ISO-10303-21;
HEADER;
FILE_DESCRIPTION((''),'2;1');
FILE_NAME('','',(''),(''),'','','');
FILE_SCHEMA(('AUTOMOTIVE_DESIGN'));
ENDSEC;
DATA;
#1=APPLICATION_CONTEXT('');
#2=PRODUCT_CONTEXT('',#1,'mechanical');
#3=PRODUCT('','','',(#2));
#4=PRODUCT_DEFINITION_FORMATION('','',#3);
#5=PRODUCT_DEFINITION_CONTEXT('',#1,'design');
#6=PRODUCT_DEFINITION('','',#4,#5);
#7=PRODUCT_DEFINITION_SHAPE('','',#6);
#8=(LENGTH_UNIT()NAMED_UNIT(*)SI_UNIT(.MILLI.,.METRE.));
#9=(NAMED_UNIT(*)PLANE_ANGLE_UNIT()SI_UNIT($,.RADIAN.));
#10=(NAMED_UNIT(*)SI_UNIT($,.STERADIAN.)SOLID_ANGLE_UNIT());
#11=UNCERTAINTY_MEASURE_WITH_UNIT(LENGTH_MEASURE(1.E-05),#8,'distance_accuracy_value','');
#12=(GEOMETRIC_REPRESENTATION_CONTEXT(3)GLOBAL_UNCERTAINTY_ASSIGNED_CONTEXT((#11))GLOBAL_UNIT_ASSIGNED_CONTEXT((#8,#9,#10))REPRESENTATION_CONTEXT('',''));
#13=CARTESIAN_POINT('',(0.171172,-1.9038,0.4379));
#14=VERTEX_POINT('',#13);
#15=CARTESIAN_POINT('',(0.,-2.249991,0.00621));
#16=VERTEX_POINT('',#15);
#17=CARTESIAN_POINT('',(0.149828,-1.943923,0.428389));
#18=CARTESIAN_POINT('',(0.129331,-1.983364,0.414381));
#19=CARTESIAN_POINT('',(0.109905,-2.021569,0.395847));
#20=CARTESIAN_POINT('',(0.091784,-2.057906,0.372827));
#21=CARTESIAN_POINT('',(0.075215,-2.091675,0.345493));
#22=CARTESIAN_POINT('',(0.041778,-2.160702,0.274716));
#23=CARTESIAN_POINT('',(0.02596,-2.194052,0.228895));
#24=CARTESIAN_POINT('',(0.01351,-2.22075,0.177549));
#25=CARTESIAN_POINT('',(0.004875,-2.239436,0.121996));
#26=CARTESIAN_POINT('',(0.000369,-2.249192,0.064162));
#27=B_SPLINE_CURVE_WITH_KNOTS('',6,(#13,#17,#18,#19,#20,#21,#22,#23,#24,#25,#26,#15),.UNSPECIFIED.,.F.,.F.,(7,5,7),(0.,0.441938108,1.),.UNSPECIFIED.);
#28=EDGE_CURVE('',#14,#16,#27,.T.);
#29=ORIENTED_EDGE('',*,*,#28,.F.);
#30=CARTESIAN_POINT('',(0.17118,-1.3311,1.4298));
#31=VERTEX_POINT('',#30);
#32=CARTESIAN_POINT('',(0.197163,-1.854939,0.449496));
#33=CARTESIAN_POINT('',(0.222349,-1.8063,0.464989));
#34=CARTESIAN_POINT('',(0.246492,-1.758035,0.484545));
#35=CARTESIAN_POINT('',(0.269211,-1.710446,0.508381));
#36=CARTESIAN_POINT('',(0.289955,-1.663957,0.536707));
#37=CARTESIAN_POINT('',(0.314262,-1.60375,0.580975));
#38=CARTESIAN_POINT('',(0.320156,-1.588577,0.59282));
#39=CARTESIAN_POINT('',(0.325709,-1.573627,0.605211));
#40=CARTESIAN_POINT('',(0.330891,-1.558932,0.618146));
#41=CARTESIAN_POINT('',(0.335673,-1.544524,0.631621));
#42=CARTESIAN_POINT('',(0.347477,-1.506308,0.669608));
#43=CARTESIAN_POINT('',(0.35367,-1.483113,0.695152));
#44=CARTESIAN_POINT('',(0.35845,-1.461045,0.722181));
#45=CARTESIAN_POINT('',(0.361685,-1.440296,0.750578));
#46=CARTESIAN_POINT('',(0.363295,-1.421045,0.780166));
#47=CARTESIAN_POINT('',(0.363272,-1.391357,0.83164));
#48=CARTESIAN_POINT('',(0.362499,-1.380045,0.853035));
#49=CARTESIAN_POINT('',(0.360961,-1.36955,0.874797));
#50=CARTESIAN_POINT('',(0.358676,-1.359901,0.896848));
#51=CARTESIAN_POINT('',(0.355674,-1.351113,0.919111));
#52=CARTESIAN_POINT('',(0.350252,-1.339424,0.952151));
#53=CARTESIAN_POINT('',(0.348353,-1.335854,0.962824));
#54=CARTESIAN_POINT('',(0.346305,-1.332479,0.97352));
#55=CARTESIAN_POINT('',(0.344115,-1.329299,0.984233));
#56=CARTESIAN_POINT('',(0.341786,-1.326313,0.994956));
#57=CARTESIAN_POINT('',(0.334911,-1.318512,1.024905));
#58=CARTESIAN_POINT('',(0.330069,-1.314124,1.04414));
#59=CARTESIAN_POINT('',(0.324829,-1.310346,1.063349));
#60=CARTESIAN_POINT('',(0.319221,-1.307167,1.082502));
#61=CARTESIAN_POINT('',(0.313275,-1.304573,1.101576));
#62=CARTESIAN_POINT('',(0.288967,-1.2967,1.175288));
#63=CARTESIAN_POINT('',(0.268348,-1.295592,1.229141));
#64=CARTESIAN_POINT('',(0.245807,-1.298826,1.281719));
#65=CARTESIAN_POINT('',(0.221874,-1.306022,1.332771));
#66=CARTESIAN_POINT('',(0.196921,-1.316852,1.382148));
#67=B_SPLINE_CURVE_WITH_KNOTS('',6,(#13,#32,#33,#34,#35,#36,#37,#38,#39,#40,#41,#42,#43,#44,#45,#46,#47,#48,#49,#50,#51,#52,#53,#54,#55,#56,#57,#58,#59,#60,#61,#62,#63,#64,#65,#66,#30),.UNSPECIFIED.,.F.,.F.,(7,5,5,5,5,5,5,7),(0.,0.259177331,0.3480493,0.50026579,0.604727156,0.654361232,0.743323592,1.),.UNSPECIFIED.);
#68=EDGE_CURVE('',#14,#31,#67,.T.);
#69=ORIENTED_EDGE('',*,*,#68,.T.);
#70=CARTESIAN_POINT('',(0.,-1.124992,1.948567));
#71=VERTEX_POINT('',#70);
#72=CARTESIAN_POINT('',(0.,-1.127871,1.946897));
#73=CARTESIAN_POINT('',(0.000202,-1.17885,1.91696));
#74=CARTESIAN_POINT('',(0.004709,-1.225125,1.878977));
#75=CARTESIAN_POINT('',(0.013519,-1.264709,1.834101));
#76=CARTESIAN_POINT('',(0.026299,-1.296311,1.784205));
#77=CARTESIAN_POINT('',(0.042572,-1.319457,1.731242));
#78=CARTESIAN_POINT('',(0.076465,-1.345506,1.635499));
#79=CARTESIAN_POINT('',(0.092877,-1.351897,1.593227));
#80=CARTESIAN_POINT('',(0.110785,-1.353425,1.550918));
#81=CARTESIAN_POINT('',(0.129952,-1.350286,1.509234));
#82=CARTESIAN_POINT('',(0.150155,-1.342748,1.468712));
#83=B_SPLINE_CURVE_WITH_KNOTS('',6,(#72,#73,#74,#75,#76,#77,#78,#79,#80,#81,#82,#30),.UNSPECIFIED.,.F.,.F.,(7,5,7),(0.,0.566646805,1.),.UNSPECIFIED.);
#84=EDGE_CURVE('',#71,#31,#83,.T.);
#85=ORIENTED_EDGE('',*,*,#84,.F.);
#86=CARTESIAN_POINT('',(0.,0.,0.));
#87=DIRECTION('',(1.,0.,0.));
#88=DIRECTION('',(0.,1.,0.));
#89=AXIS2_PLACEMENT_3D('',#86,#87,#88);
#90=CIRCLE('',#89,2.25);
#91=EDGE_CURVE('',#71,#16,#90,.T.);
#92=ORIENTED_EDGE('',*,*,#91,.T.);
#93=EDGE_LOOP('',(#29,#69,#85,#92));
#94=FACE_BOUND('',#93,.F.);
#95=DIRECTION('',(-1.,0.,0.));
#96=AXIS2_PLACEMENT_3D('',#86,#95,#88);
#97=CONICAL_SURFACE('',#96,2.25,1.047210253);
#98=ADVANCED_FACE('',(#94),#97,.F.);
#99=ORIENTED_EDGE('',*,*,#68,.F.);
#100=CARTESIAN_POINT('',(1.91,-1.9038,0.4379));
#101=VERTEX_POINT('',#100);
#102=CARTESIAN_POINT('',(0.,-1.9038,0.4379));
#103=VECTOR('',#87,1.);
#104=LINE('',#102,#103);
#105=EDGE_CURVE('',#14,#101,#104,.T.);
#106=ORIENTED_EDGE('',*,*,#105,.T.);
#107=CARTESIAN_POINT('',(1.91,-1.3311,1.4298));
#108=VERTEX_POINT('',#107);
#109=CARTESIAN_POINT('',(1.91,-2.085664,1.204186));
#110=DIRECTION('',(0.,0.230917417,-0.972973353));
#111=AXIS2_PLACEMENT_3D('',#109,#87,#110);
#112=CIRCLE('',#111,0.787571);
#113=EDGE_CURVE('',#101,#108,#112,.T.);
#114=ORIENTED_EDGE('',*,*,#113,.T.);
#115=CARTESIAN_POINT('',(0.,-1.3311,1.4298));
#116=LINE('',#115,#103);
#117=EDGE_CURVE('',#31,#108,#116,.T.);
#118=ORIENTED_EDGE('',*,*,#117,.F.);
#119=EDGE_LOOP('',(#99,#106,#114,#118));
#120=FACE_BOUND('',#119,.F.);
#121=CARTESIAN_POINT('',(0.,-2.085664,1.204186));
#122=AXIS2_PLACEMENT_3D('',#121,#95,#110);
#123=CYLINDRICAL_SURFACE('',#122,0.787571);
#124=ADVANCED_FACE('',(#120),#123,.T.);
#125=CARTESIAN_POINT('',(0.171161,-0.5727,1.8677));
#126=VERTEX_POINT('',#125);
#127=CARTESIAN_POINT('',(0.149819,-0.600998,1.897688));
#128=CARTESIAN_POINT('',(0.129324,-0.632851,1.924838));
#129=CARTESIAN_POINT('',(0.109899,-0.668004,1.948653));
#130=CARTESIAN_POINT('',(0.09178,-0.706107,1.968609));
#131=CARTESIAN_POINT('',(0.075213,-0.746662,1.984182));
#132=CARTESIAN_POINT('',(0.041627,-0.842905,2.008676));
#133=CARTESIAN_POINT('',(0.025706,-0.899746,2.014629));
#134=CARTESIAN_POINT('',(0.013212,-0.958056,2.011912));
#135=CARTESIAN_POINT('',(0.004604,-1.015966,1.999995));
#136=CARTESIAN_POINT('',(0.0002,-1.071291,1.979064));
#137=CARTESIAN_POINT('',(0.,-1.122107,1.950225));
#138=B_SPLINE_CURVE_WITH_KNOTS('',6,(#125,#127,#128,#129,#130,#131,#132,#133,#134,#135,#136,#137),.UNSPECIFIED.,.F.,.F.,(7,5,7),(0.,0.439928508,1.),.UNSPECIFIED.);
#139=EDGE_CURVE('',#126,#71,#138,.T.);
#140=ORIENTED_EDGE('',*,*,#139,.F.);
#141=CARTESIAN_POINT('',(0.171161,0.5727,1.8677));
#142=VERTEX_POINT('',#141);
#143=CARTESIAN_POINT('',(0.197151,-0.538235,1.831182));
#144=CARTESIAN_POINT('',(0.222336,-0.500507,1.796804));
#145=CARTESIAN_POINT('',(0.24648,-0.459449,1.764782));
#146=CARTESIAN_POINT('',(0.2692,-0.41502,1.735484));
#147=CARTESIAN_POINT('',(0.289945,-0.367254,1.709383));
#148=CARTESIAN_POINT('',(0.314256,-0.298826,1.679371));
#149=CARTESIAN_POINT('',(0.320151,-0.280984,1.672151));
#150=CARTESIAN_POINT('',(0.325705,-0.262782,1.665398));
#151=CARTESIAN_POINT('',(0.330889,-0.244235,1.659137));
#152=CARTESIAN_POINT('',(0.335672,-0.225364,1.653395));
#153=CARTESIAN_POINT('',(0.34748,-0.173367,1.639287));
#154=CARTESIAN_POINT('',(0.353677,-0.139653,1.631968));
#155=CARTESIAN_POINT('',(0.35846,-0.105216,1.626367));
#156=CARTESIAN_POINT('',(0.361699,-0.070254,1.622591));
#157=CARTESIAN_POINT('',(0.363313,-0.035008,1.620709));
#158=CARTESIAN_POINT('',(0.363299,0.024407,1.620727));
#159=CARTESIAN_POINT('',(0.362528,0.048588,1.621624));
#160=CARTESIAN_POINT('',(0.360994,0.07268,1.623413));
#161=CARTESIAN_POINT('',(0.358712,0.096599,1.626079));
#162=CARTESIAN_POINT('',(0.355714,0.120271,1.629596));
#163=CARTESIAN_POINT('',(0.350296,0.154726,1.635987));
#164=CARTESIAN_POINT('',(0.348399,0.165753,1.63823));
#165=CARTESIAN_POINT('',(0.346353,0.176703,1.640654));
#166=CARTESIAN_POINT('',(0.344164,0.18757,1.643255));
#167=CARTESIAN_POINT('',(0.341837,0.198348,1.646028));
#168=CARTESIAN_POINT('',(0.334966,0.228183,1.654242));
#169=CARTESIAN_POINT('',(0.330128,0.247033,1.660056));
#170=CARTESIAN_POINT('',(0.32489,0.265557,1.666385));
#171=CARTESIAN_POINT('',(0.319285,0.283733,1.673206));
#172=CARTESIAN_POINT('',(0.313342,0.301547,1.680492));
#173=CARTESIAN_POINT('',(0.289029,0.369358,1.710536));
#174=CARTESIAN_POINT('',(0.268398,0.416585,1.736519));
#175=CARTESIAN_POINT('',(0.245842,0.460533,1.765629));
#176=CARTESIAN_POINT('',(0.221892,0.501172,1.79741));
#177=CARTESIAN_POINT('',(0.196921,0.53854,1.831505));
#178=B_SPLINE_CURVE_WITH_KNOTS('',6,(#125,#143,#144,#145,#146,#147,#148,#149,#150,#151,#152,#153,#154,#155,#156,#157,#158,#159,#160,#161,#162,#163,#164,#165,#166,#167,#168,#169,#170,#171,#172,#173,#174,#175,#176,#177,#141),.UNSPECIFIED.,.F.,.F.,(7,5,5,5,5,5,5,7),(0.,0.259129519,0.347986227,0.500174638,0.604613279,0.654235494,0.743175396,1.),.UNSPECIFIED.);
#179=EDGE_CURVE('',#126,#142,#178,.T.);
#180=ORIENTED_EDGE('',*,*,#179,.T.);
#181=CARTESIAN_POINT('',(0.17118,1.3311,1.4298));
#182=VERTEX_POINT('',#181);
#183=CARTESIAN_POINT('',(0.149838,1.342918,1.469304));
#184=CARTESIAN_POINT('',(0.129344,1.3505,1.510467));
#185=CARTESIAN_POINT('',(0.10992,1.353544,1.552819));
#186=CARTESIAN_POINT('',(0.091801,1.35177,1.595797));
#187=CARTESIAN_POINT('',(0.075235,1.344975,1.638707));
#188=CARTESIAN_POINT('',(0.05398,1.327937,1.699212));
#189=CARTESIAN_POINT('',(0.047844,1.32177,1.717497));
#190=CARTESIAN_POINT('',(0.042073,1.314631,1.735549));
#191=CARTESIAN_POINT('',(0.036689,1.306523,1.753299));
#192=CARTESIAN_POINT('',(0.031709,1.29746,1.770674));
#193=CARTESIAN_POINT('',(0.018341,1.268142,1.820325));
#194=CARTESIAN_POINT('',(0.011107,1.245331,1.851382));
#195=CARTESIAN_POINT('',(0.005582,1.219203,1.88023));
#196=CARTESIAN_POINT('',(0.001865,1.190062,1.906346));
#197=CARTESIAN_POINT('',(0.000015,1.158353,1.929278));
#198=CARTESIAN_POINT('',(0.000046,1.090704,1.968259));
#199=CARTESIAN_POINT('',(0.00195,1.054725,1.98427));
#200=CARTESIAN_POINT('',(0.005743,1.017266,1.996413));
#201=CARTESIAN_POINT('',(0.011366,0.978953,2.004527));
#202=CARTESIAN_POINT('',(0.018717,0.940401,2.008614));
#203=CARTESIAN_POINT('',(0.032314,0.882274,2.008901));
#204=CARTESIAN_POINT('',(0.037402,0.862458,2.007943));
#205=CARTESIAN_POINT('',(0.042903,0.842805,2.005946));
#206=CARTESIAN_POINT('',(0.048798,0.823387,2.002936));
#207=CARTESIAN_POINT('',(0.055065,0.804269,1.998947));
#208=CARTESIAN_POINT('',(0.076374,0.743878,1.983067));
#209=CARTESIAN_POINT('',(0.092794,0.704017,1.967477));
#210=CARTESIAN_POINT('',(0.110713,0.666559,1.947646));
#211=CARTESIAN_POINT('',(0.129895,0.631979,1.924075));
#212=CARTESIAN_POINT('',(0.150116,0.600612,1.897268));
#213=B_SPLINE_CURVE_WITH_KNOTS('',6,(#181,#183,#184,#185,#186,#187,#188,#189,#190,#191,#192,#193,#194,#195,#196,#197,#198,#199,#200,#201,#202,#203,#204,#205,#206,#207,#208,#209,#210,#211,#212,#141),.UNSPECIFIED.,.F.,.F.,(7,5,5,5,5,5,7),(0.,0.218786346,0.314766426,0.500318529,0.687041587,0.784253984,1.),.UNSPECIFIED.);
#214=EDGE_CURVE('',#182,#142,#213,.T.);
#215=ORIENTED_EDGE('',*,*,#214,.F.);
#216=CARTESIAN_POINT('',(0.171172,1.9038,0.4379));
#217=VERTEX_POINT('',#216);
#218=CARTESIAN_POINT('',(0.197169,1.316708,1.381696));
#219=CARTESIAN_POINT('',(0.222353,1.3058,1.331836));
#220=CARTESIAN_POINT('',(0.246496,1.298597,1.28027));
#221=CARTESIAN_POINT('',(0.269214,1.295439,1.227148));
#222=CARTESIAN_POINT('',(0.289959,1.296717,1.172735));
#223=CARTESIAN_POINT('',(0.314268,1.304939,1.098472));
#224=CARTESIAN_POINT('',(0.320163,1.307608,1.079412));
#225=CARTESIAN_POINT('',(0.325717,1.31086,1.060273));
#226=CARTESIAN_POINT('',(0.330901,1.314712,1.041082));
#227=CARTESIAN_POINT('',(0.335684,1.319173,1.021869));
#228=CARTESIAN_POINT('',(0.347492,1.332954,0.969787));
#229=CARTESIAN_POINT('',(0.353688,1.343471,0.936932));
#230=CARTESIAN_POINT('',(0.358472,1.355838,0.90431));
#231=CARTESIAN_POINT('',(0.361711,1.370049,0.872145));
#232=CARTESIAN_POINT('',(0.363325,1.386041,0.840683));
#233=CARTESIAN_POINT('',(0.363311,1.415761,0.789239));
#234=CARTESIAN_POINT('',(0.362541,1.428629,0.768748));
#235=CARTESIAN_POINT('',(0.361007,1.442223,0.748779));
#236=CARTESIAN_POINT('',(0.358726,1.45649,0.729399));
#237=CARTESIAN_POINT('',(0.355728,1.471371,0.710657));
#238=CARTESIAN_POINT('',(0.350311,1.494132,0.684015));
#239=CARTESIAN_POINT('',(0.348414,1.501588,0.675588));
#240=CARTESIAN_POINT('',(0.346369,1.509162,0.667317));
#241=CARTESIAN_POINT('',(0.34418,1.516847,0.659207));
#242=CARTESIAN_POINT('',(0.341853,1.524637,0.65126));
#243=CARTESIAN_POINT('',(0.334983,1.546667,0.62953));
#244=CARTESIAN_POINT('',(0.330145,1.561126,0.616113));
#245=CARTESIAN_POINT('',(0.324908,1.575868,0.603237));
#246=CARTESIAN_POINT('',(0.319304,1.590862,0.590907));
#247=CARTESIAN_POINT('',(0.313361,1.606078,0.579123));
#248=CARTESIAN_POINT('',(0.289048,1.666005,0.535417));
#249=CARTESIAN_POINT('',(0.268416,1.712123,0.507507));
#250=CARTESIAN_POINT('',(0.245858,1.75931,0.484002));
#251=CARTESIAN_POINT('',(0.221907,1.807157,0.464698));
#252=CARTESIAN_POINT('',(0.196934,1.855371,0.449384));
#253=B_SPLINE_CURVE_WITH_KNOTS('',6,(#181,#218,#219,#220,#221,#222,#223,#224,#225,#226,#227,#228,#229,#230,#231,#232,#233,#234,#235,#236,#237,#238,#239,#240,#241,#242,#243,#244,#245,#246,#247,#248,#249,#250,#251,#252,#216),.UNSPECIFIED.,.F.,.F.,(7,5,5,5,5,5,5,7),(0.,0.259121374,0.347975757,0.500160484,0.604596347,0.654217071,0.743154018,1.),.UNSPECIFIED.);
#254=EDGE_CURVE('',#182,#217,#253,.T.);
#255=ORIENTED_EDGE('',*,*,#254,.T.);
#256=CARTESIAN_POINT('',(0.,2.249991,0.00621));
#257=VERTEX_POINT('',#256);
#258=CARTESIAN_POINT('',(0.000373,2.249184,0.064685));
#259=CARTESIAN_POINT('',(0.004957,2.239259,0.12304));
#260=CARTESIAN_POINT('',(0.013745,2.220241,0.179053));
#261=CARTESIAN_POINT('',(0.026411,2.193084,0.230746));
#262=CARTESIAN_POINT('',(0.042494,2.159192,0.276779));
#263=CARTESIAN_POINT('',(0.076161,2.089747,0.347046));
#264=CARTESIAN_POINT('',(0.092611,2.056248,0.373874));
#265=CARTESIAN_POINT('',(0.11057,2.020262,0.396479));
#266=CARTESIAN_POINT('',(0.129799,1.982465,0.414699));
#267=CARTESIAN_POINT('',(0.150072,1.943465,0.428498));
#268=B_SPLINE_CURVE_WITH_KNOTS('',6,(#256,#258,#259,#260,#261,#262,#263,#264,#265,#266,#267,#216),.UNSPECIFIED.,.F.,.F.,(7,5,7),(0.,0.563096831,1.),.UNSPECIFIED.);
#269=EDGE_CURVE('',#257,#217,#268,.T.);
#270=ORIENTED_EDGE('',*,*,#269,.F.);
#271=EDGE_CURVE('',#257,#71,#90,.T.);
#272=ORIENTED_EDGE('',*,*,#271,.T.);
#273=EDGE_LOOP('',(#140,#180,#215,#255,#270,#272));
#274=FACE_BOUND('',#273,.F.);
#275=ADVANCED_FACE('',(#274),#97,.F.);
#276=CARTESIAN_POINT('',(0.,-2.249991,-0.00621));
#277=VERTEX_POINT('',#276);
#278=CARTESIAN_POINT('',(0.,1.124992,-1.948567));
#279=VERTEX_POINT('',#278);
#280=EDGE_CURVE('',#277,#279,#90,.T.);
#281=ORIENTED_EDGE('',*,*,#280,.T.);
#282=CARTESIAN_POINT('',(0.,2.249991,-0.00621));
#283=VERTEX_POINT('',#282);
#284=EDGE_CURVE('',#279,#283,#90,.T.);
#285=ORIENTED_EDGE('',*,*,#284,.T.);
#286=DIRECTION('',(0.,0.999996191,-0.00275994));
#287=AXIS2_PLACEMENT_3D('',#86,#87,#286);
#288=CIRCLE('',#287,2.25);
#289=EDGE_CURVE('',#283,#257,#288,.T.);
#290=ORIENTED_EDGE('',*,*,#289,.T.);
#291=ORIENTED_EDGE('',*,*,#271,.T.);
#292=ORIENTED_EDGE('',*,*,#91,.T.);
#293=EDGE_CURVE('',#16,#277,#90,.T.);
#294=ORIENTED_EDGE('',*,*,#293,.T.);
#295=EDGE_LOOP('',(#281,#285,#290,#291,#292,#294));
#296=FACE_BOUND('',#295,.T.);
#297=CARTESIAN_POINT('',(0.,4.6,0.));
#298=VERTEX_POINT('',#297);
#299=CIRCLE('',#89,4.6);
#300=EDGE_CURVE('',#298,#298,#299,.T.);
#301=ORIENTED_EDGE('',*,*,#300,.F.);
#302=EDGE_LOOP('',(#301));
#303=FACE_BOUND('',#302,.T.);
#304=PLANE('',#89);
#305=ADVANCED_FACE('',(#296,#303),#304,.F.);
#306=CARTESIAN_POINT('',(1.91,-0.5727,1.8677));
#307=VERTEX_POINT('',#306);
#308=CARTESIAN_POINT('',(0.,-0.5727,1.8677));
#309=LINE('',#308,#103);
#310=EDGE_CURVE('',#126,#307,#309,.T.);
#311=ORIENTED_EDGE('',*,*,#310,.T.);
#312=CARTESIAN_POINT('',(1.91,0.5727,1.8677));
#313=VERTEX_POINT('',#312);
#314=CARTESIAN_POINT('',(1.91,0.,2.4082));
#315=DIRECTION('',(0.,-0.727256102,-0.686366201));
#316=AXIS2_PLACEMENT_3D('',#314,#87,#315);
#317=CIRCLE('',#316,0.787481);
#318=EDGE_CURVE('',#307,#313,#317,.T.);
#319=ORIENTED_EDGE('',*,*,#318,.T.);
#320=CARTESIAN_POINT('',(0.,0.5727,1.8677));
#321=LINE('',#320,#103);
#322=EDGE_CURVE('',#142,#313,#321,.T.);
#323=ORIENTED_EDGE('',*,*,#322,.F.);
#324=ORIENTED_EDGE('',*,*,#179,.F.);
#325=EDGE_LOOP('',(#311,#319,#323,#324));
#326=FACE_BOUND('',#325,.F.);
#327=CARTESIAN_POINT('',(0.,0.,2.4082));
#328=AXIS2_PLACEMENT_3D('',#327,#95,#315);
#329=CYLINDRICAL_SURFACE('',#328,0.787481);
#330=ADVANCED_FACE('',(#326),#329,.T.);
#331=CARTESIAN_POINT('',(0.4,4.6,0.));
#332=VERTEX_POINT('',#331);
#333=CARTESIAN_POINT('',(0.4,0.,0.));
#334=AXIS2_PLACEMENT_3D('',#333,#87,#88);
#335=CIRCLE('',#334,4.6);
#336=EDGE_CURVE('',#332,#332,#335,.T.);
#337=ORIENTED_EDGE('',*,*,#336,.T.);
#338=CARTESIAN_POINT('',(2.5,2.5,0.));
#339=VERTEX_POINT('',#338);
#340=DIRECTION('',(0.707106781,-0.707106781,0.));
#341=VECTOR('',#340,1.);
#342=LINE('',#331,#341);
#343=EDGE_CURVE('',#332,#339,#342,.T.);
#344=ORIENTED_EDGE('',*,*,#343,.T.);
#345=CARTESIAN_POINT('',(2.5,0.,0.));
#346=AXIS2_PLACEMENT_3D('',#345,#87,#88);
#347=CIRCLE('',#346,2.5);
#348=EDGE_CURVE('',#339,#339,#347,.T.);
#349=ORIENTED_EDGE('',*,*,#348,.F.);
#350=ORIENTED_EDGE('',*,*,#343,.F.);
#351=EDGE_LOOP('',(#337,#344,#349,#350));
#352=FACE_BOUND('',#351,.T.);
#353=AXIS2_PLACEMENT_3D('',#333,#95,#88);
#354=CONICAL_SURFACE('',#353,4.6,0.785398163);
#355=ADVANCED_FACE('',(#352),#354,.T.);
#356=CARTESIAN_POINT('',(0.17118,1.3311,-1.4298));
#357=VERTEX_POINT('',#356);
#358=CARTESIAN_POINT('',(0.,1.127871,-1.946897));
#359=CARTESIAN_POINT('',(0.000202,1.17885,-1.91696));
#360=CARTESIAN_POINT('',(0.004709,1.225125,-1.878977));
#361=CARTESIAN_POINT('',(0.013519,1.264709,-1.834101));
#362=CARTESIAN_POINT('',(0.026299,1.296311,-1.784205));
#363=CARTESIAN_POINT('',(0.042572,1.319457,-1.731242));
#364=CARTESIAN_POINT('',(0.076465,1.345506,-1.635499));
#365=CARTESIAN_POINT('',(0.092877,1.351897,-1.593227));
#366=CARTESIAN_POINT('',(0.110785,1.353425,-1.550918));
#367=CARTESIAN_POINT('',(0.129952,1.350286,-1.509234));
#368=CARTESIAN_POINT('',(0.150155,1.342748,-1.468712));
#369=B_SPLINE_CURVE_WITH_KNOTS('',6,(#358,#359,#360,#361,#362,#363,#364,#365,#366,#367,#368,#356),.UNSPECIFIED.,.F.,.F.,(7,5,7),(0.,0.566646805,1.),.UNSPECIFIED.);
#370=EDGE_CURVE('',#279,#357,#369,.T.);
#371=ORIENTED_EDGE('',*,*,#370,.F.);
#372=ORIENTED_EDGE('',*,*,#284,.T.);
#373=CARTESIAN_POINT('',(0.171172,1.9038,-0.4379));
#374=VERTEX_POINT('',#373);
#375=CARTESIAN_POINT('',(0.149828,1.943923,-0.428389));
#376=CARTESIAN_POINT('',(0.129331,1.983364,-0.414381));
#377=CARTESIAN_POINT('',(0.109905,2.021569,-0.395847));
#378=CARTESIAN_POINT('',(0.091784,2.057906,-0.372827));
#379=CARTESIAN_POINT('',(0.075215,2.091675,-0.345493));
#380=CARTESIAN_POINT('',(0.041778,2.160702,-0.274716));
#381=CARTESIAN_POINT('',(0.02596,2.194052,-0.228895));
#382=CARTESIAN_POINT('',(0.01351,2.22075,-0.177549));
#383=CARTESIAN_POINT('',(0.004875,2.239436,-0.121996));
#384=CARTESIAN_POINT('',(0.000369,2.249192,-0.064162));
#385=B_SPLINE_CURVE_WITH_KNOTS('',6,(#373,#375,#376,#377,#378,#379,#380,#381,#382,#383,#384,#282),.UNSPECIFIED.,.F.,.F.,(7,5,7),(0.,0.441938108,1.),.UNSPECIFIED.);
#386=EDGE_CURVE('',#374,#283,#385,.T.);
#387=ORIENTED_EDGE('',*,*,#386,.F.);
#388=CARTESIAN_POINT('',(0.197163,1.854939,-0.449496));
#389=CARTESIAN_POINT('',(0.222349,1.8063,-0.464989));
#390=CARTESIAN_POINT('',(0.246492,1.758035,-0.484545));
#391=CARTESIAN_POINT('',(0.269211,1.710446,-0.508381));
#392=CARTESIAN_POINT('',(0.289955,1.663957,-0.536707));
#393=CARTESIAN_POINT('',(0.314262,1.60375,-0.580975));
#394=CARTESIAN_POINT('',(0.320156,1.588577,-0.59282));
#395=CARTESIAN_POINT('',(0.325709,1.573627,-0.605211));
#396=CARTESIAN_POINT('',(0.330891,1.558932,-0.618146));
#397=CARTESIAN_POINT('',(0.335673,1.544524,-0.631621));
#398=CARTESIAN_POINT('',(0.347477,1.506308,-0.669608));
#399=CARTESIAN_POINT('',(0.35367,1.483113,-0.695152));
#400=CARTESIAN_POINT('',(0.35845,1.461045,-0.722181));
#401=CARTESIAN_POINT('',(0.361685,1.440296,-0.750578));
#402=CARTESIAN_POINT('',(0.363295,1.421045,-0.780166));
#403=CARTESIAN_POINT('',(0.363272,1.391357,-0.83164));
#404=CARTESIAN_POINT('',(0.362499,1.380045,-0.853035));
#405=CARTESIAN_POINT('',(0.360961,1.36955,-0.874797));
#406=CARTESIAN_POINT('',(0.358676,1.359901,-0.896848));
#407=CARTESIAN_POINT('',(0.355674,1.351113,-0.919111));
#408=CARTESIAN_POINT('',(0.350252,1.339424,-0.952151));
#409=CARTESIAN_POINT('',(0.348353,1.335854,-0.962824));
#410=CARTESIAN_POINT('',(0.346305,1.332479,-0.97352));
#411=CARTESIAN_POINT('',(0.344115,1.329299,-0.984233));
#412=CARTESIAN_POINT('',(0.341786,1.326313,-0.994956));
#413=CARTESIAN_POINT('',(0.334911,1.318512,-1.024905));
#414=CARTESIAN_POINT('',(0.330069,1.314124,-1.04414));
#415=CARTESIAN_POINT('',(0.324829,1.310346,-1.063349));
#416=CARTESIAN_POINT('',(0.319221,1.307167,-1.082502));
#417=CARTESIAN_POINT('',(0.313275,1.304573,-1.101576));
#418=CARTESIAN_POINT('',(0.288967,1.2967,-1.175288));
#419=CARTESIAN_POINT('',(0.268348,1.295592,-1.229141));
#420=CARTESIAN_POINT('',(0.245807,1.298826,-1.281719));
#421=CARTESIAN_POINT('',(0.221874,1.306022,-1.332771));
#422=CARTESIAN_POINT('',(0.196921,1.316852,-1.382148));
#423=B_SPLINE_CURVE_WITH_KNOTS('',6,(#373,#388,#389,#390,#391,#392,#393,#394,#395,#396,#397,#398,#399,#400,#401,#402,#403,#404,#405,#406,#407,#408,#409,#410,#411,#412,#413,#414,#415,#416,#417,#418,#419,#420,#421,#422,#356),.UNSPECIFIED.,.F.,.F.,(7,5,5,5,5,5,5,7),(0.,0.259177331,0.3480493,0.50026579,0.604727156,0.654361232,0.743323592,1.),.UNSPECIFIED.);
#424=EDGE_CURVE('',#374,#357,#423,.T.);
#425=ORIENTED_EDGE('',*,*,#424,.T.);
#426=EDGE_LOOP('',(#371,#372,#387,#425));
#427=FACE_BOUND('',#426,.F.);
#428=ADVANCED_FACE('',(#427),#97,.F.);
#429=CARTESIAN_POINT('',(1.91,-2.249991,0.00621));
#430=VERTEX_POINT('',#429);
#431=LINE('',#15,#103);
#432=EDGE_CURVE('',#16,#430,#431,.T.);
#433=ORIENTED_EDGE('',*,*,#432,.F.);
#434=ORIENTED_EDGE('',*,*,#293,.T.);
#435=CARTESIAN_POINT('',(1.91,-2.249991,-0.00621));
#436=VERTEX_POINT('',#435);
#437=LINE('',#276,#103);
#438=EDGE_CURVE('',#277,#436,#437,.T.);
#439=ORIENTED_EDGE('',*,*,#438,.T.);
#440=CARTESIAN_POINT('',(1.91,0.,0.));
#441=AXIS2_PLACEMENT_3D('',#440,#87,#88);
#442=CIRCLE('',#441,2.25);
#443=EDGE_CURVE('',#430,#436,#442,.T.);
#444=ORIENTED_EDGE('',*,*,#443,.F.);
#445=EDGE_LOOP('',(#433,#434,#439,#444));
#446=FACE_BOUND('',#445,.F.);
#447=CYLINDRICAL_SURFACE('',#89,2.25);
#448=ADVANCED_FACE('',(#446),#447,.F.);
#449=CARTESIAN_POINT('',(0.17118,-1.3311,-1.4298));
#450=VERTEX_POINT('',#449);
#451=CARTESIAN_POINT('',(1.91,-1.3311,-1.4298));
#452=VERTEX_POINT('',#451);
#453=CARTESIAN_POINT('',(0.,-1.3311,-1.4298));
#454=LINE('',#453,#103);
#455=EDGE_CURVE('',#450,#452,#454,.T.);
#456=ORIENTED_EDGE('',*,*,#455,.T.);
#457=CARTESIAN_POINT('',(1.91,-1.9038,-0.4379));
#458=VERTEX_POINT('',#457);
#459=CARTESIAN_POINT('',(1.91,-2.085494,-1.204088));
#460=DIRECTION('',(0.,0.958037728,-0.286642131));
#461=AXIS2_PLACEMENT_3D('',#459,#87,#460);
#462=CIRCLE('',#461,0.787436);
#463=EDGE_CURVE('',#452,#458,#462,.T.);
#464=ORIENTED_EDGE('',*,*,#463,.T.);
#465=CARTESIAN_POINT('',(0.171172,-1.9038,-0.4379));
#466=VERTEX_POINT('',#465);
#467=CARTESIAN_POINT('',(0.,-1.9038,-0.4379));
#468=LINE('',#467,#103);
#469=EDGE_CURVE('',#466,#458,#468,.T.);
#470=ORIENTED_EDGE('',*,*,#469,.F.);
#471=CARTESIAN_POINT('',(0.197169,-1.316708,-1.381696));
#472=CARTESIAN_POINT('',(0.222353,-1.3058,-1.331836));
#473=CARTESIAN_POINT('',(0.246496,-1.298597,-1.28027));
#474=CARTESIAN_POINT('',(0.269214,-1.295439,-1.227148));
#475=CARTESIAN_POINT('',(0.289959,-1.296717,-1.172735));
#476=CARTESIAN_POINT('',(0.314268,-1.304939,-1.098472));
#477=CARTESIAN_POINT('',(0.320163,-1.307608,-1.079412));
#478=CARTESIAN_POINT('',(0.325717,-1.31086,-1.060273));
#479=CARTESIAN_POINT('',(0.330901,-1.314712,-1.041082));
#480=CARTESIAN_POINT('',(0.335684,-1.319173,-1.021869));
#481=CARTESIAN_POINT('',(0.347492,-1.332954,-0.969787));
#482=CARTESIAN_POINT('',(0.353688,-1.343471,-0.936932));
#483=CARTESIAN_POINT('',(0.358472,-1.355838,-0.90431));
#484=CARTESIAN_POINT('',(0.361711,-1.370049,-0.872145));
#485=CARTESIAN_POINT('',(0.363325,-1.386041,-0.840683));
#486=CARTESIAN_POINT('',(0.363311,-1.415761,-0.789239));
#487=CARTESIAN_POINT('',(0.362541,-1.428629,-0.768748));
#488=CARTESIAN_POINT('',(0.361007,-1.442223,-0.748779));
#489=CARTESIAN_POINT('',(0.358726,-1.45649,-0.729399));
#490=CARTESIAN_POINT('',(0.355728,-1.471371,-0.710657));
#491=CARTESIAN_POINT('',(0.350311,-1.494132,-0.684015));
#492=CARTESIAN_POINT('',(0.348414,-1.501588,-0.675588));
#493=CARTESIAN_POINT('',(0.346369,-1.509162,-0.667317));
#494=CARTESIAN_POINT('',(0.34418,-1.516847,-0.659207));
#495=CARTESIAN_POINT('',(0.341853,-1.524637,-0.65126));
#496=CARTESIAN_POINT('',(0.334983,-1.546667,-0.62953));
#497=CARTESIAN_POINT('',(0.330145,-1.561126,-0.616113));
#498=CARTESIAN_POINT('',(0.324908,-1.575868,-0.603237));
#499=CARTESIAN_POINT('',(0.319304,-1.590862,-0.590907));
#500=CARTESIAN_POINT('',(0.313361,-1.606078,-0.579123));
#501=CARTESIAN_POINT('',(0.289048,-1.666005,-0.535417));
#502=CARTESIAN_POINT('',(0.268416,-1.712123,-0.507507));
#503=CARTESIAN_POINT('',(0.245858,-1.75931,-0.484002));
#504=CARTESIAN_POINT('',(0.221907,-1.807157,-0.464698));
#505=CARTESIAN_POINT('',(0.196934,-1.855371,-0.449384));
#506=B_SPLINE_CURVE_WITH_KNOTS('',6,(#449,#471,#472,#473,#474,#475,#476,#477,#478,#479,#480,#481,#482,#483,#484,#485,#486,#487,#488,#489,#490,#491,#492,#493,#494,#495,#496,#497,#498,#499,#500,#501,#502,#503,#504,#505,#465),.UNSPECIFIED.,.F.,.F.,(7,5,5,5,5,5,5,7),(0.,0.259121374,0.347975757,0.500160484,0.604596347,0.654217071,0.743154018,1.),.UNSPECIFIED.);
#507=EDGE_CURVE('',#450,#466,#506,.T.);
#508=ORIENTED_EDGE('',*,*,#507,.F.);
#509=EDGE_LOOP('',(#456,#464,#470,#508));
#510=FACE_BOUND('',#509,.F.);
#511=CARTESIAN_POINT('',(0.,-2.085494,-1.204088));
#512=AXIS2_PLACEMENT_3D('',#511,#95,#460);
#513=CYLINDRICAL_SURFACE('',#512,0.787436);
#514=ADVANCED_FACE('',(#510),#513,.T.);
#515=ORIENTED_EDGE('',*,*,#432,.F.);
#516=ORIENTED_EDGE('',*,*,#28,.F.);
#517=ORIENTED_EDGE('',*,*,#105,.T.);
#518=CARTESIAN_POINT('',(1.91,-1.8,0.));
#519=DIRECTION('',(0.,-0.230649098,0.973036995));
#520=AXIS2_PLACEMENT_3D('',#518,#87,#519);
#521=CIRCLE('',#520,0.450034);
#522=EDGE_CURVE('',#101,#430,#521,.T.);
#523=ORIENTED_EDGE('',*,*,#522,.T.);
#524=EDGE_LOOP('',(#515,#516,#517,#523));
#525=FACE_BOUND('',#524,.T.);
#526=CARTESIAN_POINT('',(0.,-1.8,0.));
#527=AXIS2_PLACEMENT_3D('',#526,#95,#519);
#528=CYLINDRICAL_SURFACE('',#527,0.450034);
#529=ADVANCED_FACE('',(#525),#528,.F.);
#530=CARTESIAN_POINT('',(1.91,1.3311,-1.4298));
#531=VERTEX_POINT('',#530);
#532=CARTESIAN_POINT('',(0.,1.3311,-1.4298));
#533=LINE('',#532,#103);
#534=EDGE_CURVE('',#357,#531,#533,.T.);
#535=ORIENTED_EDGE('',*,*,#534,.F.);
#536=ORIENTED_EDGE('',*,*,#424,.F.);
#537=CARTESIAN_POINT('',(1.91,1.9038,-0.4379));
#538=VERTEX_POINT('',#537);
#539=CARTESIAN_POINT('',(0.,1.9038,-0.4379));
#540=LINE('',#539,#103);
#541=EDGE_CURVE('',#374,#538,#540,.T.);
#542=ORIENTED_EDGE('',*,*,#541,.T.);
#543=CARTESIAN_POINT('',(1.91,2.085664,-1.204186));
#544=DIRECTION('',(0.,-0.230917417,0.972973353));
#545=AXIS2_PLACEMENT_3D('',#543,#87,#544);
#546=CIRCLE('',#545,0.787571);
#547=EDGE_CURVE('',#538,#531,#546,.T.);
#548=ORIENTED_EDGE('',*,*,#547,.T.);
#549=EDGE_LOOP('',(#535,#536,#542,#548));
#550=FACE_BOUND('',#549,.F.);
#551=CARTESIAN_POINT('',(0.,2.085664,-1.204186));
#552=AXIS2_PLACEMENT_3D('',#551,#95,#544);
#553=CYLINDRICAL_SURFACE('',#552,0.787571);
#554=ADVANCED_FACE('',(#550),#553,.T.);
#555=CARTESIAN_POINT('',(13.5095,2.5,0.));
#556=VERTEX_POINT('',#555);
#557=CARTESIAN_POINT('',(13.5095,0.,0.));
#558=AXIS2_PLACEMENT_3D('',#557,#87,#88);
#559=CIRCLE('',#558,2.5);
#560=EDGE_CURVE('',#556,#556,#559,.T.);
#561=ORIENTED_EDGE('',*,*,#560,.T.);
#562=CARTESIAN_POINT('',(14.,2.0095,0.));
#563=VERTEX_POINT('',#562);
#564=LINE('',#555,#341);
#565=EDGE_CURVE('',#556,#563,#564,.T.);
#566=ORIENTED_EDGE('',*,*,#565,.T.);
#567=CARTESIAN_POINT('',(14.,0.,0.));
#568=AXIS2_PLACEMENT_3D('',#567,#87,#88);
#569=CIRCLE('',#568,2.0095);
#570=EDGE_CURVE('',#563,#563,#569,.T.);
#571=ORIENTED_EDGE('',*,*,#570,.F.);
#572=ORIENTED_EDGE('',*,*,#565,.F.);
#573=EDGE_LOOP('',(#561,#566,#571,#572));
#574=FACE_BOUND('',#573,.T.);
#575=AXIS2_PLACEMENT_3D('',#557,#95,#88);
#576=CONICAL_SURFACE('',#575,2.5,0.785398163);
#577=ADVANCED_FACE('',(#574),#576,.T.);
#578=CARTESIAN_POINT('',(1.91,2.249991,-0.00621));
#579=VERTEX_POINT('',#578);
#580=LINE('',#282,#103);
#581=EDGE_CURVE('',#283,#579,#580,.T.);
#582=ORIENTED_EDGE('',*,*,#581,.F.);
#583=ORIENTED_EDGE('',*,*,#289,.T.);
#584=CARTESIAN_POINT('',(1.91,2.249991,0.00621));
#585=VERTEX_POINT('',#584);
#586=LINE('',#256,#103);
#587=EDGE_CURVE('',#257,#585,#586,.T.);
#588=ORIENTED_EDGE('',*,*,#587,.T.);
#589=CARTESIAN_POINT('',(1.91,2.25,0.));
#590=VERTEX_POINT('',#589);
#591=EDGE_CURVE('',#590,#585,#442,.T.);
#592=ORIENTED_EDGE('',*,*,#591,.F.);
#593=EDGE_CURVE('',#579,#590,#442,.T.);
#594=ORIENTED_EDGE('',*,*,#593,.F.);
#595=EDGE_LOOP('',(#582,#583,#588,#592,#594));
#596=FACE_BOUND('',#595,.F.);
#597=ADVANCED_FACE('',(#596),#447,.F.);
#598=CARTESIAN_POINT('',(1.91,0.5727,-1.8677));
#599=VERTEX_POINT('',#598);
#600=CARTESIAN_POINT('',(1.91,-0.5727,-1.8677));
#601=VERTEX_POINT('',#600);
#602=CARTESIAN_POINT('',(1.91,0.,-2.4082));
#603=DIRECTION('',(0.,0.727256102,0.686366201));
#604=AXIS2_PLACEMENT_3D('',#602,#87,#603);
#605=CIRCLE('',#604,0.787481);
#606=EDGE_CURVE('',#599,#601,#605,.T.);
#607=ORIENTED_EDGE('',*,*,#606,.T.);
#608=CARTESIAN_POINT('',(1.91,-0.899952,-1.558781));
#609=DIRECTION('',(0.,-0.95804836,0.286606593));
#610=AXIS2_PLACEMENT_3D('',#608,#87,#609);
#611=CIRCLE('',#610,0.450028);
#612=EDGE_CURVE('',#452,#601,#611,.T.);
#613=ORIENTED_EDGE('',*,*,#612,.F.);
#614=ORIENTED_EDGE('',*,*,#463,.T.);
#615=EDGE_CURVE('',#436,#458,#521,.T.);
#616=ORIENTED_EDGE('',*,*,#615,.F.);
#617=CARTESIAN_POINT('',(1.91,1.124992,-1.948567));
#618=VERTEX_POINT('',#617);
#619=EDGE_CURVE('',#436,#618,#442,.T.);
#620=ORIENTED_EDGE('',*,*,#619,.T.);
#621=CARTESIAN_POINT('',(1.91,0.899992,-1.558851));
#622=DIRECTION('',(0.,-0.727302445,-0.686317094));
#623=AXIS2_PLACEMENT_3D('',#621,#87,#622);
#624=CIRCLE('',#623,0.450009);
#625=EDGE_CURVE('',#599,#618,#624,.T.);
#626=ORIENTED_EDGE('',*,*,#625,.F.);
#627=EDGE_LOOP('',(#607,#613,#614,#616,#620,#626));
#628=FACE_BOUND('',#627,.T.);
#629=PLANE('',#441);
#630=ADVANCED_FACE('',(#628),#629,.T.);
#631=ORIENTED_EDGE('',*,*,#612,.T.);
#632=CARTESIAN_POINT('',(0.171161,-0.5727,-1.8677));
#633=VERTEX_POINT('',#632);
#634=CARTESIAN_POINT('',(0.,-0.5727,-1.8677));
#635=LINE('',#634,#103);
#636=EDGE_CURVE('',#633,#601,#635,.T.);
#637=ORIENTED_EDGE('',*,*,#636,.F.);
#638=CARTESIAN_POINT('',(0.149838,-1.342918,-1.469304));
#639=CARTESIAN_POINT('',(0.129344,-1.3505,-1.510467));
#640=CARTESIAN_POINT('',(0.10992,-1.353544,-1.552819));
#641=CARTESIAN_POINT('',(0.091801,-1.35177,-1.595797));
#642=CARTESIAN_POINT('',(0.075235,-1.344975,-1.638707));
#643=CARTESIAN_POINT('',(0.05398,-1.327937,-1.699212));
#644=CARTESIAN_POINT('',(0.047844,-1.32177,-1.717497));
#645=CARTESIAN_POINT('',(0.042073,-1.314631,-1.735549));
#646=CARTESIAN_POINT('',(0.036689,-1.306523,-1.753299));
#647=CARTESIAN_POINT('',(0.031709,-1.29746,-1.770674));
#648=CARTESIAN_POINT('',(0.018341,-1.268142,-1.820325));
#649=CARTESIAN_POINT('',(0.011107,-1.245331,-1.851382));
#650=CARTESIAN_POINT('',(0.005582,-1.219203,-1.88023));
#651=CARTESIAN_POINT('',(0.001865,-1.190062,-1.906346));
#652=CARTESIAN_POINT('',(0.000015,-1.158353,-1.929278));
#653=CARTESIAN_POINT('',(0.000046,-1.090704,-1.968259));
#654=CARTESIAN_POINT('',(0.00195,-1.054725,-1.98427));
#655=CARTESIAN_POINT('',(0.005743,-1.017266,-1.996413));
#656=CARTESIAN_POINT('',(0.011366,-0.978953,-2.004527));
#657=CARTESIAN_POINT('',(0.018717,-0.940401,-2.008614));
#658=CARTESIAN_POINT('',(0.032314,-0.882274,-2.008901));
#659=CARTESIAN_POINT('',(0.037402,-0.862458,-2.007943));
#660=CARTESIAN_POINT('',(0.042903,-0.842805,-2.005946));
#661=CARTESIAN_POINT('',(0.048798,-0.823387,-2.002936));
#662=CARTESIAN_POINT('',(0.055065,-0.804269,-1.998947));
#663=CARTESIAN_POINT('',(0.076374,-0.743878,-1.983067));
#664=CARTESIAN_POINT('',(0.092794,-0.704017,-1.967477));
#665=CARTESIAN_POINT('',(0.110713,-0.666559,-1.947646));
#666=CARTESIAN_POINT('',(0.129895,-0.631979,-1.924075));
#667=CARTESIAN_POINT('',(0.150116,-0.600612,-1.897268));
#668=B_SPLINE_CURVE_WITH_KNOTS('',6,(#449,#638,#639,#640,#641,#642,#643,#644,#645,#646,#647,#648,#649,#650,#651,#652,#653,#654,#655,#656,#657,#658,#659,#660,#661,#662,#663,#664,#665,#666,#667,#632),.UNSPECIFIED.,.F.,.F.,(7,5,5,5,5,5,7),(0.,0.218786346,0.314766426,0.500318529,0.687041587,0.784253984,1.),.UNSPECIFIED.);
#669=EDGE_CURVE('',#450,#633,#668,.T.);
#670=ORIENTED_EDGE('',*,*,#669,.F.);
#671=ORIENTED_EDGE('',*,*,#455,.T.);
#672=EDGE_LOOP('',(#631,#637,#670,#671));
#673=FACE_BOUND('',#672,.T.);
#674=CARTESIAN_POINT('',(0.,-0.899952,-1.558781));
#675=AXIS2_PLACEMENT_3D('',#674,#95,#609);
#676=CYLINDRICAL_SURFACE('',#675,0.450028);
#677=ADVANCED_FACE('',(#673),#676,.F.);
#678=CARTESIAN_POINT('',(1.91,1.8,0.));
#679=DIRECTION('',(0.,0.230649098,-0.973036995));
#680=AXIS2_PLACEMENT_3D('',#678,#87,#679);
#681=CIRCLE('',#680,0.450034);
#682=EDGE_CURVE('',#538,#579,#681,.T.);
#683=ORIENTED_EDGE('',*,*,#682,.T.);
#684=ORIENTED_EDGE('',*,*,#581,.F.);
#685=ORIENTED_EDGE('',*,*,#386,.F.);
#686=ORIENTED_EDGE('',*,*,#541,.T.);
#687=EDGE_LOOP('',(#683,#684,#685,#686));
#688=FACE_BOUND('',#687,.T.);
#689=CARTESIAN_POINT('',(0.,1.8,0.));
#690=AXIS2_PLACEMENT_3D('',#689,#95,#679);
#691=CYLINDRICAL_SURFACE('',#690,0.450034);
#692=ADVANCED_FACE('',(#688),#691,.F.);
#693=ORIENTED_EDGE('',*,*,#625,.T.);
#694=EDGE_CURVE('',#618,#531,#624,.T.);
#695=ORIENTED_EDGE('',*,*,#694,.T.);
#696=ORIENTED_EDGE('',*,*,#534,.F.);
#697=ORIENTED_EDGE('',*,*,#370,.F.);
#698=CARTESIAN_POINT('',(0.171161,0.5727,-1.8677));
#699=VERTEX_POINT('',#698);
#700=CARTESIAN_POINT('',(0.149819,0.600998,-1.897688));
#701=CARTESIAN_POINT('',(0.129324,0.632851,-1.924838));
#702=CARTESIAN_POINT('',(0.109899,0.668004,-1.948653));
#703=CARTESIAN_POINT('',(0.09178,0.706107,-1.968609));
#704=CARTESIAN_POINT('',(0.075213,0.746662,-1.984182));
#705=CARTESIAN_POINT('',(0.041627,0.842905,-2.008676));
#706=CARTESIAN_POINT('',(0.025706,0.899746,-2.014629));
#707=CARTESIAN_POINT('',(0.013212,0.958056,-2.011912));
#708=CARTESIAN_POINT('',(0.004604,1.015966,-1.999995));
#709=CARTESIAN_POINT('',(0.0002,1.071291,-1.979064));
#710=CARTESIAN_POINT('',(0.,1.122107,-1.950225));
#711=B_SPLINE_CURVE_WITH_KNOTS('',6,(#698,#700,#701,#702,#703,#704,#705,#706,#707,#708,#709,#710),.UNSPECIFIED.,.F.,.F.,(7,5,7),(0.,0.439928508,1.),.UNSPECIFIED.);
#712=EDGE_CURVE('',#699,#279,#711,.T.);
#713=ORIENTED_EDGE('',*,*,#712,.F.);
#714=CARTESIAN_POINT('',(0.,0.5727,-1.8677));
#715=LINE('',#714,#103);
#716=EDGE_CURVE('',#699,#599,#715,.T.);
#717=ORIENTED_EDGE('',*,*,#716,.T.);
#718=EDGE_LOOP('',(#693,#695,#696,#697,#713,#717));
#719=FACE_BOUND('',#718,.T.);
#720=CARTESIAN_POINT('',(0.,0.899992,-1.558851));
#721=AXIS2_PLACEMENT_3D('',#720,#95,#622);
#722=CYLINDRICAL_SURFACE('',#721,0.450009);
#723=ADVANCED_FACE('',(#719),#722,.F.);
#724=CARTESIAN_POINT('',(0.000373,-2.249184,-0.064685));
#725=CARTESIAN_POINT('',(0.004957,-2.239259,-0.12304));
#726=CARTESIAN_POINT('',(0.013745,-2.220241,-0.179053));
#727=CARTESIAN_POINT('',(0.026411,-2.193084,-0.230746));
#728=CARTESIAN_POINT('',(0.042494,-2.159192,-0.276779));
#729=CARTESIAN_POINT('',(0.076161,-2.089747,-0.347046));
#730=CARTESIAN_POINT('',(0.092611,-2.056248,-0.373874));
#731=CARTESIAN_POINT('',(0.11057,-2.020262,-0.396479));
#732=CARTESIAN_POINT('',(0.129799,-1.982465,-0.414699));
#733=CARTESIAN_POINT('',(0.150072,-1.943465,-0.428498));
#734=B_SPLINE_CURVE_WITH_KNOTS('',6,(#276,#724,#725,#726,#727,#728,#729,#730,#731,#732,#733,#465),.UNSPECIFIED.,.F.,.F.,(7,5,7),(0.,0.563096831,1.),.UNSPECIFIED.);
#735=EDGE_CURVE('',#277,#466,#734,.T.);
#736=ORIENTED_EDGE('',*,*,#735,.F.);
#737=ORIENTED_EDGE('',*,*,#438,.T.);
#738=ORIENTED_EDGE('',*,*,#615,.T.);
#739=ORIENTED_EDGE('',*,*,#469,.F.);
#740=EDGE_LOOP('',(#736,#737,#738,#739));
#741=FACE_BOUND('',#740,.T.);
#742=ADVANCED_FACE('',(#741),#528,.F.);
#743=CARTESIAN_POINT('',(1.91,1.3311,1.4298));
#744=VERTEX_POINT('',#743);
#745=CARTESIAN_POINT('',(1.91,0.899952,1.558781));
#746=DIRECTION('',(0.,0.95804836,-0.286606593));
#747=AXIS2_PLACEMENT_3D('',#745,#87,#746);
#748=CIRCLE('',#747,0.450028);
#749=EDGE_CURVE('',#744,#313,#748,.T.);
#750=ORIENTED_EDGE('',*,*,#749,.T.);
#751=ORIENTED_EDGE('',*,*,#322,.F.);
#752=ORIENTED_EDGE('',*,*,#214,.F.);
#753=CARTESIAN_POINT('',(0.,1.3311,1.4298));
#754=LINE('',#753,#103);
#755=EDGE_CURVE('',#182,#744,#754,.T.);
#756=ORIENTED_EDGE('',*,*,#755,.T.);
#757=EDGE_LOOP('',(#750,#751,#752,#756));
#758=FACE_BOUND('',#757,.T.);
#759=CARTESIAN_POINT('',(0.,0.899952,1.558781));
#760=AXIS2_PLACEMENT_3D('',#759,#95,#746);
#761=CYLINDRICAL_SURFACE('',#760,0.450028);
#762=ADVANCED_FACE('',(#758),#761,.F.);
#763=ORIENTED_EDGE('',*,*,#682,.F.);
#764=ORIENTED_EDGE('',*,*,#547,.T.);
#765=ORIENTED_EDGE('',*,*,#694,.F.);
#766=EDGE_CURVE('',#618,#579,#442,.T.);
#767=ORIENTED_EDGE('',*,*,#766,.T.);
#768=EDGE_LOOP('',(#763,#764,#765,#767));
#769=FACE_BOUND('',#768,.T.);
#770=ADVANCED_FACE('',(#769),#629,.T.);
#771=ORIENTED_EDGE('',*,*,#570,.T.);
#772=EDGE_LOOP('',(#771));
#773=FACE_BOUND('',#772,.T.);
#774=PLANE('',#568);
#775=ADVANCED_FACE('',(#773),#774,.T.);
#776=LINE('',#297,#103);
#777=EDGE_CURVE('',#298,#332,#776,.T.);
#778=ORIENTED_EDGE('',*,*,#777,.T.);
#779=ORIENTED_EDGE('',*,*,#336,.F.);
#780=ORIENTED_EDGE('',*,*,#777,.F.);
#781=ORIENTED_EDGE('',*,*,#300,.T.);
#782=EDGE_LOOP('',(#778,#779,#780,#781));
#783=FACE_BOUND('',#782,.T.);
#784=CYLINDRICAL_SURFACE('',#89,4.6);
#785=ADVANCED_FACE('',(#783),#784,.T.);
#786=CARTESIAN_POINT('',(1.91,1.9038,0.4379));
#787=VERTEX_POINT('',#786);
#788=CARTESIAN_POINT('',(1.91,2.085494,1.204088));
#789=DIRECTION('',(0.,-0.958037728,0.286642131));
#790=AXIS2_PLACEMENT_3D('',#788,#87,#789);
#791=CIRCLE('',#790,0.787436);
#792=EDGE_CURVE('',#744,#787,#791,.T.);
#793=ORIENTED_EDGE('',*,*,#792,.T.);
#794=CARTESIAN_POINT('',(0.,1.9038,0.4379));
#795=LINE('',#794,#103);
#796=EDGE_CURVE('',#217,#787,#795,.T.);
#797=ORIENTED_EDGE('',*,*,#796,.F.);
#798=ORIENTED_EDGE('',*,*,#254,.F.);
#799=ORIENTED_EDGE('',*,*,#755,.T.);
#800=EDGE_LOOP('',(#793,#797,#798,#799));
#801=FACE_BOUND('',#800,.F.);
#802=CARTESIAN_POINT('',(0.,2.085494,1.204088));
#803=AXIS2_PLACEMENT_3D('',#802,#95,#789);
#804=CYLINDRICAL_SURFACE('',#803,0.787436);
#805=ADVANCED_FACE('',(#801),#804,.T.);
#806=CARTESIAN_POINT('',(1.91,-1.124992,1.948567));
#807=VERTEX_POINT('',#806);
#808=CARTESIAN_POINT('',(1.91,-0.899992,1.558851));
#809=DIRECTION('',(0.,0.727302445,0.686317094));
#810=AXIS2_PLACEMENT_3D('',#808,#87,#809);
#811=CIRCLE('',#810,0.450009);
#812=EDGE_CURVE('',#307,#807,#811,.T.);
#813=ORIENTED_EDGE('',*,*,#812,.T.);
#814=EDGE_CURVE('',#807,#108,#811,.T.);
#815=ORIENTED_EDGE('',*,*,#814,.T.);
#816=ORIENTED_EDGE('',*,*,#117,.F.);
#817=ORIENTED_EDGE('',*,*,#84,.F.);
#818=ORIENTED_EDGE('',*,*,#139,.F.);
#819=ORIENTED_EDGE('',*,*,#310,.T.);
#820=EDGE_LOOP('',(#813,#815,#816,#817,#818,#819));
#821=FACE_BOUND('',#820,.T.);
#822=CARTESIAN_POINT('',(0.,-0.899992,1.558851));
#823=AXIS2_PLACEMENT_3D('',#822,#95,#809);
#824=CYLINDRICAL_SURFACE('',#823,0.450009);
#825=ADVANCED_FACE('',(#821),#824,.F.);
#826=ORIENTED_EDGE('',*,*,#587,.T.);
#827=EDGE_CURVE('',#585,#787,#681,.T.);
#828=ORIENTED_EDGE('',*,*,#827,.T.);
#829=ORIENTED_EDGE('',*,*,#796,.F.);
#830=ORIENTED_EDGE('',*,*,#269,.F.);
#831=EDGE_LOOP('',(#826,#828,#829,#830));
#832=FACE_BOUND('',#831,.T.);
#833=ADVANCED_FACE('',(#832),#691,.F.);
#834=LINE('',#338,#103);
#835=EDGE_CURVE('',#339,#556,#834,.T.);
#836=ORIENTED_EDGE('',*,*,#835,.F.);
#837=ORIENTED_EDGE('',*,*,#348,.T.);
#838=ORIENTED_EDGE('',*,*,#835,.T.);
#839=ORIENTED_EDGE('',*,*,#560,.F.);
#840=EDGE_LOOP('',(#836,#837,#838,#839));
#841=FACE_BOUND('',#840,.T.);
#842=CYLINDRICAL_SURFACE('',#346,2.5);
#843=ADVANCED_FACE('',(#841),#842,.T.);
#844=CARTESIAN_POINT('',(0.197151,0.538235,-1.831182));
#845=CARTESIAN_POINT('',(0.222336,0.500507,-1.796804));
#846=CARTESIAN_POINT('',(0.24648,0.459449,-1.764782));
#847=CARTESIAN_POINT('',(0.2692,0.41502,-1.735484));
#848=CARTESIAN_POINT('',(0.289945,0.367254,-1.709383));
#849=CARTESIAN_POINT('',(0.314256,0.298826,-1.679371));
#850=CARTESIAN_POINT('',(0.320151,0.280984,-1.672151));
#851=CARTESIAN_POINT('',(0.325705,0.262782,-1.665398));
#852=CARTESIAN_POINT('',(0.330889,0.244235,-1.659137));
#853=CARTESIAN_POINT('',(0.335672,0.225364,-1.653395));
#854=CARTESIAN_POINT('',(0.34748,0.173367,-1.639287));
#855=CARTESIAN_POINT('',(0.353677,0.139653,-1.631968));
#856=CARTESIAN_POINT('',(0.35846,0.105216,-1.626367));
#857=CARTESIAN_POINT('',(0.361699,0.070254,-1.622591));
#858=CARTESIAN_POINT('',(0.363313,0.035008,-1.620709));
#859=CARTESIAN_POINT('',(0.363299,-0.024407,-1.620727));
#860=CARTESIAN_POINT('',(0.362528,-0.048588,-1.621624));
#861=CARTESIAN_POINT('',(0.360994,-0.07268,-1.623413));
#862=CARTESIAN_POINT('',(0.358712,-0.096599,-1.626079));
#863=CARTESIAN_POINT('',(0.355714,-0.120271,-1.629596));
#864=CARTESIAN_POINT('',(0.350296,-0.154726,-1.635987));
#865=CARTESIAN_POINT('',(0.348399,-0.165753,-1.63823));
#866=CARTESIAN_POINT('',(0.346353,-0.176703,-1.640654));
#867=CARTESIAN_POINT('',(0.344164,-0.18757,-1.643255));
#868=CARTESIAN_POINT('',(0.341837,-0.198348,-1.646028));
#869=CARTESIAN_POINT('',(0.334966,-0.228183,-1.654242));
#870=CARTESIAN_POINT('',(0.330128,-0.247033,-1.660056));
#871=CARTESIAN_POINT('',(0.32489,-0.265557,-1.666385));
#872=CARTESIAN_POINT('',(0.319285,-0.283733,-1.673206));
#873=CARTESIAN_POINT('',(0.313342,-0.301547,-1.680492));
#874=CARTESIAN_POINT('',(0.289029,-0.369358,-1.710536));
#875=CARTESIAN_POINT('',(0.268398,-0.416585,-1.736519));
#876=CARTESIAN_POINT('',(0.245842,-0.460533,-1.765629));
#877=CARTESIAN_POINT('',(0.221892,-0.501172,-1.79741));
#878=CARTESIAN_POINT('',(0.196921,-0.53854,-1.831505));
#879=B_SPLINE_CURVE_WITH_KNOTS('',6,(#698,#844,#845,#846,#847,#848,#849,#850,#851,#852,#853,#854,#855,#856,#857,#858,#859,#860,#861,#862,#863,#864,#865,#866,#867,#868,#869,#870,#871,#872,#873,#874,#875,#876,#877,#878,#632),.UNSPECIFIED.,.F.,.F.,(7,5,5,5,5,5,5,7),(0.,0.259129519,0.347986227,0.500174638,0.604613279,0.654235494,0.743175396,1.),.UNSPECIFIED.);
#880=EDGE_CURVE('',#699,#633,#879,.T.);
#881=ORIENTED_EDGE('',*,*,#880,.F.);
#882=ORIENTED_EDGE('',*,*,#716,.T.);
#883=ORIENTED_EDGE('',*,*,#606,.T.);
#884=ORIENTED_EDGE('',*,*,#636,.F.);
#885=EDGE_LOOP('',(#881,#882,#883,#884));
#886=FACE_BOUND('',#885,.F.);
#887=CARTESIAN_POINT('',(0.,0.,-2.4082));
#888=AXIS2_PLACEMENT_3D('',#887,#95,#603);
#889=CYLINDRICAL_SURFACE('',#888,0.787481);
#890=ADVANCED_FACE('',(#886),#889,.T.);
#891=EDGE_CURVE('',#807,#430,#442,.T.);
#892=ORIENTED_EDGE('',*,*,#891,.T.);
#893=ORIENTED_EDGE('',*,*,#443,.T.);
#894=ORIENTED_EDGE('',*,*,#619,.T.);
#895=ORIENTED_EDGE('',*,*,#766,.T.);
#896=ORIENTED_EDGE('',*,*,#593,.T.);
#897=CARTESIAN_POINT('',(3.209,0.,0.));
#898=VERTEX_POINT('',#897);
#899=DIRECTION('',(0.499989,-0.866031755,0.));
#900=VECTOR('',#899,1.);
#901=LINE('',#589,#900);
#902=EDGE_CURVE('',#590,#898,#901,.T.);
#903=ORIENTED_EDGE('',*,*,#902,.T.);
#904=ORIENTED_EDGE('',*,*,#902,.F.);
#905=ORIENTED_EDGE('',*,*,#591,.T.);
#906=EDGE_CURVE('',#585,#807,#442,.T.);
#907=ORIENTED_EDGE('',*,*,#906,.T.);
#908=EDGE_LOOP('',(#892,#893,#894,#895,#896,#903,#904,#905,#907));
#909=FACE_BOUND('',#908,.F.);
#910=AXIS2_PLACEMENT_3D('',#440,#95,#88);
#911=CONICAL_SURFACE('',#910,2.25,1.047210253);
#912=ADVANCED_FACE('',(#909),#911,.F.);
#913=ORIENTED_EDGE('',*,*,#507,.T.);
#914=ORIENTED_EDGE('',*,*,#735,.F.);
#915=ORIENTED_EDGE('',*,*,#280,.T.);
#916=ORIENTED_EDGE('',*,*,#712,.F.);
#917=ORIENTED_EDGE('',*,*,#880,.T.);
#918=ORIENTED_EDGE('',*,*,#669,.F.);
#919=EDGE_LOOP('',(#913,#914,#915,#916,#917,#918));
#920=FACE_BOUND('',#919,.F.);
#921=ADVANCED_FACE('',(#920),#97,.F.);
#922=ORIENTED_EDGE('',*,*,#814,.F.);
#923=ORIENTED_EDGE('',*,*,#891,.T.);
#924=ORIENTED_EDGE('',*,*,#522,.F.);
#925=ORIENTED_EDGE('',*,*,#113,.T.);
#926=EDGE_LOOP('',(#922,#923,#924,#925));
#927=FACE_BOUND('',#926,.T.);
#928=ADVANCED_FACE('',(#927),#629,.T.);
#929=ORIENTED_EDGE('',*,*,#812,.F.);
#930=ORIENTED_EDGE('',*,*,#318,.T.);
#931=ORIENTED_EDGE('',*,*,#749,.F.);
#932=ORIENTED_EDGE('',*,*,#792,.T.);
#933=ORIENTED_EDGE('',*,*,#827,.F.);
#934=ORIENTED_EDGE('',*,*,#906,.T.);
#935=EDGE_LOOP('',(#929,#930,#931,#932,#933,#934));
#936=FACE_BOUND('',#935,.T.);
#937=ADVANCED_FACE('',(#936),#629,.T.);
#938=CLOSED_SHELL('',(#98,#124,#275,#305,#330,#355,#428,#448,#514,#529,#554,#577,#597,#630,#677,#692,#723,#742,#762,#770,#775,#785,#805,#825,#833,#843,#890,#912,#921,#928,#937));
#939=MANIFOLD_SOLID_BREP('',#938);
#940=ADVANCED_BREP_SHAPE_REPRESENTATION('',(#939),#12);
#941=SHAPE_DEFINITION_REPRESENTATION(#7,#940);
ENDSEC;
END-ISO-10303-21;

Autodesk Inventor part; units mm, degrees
sketch "Skizze_5" plane through (0, 0, 0) normal (0, 0, 1) x (1, 0, 0)
  line L0 (14, 0) -> (0, 0)
  line L1 (0, 0) -> (0, 4.6)
  line L2 (0, 4.6) -> (0.4, 4.6)
  line L3 (0.4, 4.6) -> (2.5, 2.5)
  line L4 (2.5, 2.5) -> (13.5095, 2.5)
  line L5 (13.5095, 2.5) -> (14, 2.0095)
  line L6 (14, 2.0095) -> (14, 0)
  line L7 (14, 0) -> (0, 0)
revolve "Revolution1" add sketch "Skizze_5" angle 360 about axis through (14, 0, 0) along (1, 0, 0)
thread "Thread1" size "M5x0.8" class "6g" standard "ISO Metric profile" length 9.4095
sketch "Sketch_1" plane through (0, 0, 0) normal (0, 0, 1) x (1, 0, 0)
  line L0 (1.91, 0) -> (0, 0)
  line L1 (0, 0) -> (0, 2.25)
  line L2 (0, 2.25) -> (1.91, 2.25)
  line L3 (1.91, 2.25) -> (1.91, 0)
  line L4 (1.91, 0) -> (0, 0)
revolve "Revolution2" cut sketch "Sketch_1" angle 360 about axis through (1.91, 0, 0) along (1, 0, 0)
sketch "Sketch_2" plane through (0, 0, 0) normal (0, 0, 1) x (1, 0, 0)
  line L0 (3.209, 0) -> (1.91, 0)
  line L1 (1.91, 0) -> (1.91, 2.25)
  line L2 (1.91, 2.25) -> (3.209, 0)
  line L3 (3.209, 0) -> (1.91, 0)
revolve "Revolution3" cut sketch "Sketch_2" angle 360 about axis through (3.209, 0, 0) along (1, 0, 0)
sketch "Sketch_3" plane through (0, 0, 0) normal (1, 0, 0) x (0, 1, 0)
  circle A0 centre (0, 0) radius 2.7
  arc A1 (-0.5727, 1.8677) -> (-1.3311, 1.4298) centre (-0.9, 1.5588) ccw
  arc A2 (-1.9038, 0.4379) -> (-1.3311, 1.4298) centre (-2.0856, 1.2041) ccw
  arc A3 (-1.9038, 0.4379) -> (-1.9038, -0.4379) centre (-1.8, 0) ccw
  arc A4 (-1.3311, -1.4298) -> (-1.9038, -0.4379) centre (-2.0856, -1.2041) ccw
  arc A5 (-1.3311, -1.4298) -> (-0.5727, -1.8677) centre (-0.9, -1.5588) ccw
  arc A6 (0.5727, -1.8677) -> (-0.5727, -1.8677) centre (0, -2.4082) ccw
  arc A7 (0.5727, -1.8677) -> (1.3311, -1.4298) centre (0.9, -1.5588) ccw
  arc A8 (1.9038, -0.4379) -> (1.3311, -1.4298) centre (2.0856, -1.2041) ccw
  arc A9 (1.9038, -0.4379) -> (1.9038, 0.4379) centre (1.8, 0) ccw
  arc A10 (1.3311, 1.4298) -> (1.9038, 0.4379) centre (2.0856, 1.2041) ccw
  arc A11 (1.3311, 1.4298) -> (0.5727, 1.8677) centre (0.9, 1.5588) ccw
  arc A12 (-0.5727, 1.8677) -> (0.5727, 1.8677) centre (0, 2.4082) ccw
extrude "Extrusion1" add sketch "Sketch_3" along normal blind 1.91
sketch "Sketch_4" plane through (0, 0, 0) normal (0, 0, 1) x (1, 0, 0)
  line L0 (1.299, 0) -> (-1.91, 0)
  line L1 (-1.91, 0) -> (-1.91, 2.25)
  line L2 (-1.91, 2.25) -> (0, 2.25)
  line L3 (0, 2.25) -> (1.299, 0)
  line L4 (1.299, 0) -> (-1.91, 0)
revolve "Revolution4" cut sketch "Sketch_4" angle 360 about axis through (1.299, 0, 0) along (1, 0, 0)
ref_plane "IP1_XY" through (0, 0, 0) normal (1, 0, 0) x (0, 0, -1)
ref_plane "IP1_YZ" through (0, 0, 0) normal (0, 0, -1) x (0, 1, 0)
ref_plane "IP1_ZX" through (0, 0, 0) normal (0, 1, 0) x (1, 0, 0)
ref_plane "IP2_XY" through (2.5, 0, 0) normal (1, 0, 0) x (0, 0, -1)
ref_plane "IP2_YZ" through (2.5, 0, 0) normal (0, 0, -1) x (0, 1, 0)
ref_plane "IP2_ZX" through (2.5, 0, 0) normal (0, 1, 0) x (1, 0, 0)
ref_plane "IP3_XY" through (14, 0, 0) normal (1, 0, 0) x (0, 0, -1)
ref_plane "IP3_YZ" through (14, 0, 0) normal (0, 0, -1) x (0, 1, 0)
ref_plane "IP3_ZX" through (14, 0, 0) normal (0, 1, 0) x (1, 0, 0)
properties part number "Senkschraube DIN ≈965 M5x14 51305.050.014(High)"
